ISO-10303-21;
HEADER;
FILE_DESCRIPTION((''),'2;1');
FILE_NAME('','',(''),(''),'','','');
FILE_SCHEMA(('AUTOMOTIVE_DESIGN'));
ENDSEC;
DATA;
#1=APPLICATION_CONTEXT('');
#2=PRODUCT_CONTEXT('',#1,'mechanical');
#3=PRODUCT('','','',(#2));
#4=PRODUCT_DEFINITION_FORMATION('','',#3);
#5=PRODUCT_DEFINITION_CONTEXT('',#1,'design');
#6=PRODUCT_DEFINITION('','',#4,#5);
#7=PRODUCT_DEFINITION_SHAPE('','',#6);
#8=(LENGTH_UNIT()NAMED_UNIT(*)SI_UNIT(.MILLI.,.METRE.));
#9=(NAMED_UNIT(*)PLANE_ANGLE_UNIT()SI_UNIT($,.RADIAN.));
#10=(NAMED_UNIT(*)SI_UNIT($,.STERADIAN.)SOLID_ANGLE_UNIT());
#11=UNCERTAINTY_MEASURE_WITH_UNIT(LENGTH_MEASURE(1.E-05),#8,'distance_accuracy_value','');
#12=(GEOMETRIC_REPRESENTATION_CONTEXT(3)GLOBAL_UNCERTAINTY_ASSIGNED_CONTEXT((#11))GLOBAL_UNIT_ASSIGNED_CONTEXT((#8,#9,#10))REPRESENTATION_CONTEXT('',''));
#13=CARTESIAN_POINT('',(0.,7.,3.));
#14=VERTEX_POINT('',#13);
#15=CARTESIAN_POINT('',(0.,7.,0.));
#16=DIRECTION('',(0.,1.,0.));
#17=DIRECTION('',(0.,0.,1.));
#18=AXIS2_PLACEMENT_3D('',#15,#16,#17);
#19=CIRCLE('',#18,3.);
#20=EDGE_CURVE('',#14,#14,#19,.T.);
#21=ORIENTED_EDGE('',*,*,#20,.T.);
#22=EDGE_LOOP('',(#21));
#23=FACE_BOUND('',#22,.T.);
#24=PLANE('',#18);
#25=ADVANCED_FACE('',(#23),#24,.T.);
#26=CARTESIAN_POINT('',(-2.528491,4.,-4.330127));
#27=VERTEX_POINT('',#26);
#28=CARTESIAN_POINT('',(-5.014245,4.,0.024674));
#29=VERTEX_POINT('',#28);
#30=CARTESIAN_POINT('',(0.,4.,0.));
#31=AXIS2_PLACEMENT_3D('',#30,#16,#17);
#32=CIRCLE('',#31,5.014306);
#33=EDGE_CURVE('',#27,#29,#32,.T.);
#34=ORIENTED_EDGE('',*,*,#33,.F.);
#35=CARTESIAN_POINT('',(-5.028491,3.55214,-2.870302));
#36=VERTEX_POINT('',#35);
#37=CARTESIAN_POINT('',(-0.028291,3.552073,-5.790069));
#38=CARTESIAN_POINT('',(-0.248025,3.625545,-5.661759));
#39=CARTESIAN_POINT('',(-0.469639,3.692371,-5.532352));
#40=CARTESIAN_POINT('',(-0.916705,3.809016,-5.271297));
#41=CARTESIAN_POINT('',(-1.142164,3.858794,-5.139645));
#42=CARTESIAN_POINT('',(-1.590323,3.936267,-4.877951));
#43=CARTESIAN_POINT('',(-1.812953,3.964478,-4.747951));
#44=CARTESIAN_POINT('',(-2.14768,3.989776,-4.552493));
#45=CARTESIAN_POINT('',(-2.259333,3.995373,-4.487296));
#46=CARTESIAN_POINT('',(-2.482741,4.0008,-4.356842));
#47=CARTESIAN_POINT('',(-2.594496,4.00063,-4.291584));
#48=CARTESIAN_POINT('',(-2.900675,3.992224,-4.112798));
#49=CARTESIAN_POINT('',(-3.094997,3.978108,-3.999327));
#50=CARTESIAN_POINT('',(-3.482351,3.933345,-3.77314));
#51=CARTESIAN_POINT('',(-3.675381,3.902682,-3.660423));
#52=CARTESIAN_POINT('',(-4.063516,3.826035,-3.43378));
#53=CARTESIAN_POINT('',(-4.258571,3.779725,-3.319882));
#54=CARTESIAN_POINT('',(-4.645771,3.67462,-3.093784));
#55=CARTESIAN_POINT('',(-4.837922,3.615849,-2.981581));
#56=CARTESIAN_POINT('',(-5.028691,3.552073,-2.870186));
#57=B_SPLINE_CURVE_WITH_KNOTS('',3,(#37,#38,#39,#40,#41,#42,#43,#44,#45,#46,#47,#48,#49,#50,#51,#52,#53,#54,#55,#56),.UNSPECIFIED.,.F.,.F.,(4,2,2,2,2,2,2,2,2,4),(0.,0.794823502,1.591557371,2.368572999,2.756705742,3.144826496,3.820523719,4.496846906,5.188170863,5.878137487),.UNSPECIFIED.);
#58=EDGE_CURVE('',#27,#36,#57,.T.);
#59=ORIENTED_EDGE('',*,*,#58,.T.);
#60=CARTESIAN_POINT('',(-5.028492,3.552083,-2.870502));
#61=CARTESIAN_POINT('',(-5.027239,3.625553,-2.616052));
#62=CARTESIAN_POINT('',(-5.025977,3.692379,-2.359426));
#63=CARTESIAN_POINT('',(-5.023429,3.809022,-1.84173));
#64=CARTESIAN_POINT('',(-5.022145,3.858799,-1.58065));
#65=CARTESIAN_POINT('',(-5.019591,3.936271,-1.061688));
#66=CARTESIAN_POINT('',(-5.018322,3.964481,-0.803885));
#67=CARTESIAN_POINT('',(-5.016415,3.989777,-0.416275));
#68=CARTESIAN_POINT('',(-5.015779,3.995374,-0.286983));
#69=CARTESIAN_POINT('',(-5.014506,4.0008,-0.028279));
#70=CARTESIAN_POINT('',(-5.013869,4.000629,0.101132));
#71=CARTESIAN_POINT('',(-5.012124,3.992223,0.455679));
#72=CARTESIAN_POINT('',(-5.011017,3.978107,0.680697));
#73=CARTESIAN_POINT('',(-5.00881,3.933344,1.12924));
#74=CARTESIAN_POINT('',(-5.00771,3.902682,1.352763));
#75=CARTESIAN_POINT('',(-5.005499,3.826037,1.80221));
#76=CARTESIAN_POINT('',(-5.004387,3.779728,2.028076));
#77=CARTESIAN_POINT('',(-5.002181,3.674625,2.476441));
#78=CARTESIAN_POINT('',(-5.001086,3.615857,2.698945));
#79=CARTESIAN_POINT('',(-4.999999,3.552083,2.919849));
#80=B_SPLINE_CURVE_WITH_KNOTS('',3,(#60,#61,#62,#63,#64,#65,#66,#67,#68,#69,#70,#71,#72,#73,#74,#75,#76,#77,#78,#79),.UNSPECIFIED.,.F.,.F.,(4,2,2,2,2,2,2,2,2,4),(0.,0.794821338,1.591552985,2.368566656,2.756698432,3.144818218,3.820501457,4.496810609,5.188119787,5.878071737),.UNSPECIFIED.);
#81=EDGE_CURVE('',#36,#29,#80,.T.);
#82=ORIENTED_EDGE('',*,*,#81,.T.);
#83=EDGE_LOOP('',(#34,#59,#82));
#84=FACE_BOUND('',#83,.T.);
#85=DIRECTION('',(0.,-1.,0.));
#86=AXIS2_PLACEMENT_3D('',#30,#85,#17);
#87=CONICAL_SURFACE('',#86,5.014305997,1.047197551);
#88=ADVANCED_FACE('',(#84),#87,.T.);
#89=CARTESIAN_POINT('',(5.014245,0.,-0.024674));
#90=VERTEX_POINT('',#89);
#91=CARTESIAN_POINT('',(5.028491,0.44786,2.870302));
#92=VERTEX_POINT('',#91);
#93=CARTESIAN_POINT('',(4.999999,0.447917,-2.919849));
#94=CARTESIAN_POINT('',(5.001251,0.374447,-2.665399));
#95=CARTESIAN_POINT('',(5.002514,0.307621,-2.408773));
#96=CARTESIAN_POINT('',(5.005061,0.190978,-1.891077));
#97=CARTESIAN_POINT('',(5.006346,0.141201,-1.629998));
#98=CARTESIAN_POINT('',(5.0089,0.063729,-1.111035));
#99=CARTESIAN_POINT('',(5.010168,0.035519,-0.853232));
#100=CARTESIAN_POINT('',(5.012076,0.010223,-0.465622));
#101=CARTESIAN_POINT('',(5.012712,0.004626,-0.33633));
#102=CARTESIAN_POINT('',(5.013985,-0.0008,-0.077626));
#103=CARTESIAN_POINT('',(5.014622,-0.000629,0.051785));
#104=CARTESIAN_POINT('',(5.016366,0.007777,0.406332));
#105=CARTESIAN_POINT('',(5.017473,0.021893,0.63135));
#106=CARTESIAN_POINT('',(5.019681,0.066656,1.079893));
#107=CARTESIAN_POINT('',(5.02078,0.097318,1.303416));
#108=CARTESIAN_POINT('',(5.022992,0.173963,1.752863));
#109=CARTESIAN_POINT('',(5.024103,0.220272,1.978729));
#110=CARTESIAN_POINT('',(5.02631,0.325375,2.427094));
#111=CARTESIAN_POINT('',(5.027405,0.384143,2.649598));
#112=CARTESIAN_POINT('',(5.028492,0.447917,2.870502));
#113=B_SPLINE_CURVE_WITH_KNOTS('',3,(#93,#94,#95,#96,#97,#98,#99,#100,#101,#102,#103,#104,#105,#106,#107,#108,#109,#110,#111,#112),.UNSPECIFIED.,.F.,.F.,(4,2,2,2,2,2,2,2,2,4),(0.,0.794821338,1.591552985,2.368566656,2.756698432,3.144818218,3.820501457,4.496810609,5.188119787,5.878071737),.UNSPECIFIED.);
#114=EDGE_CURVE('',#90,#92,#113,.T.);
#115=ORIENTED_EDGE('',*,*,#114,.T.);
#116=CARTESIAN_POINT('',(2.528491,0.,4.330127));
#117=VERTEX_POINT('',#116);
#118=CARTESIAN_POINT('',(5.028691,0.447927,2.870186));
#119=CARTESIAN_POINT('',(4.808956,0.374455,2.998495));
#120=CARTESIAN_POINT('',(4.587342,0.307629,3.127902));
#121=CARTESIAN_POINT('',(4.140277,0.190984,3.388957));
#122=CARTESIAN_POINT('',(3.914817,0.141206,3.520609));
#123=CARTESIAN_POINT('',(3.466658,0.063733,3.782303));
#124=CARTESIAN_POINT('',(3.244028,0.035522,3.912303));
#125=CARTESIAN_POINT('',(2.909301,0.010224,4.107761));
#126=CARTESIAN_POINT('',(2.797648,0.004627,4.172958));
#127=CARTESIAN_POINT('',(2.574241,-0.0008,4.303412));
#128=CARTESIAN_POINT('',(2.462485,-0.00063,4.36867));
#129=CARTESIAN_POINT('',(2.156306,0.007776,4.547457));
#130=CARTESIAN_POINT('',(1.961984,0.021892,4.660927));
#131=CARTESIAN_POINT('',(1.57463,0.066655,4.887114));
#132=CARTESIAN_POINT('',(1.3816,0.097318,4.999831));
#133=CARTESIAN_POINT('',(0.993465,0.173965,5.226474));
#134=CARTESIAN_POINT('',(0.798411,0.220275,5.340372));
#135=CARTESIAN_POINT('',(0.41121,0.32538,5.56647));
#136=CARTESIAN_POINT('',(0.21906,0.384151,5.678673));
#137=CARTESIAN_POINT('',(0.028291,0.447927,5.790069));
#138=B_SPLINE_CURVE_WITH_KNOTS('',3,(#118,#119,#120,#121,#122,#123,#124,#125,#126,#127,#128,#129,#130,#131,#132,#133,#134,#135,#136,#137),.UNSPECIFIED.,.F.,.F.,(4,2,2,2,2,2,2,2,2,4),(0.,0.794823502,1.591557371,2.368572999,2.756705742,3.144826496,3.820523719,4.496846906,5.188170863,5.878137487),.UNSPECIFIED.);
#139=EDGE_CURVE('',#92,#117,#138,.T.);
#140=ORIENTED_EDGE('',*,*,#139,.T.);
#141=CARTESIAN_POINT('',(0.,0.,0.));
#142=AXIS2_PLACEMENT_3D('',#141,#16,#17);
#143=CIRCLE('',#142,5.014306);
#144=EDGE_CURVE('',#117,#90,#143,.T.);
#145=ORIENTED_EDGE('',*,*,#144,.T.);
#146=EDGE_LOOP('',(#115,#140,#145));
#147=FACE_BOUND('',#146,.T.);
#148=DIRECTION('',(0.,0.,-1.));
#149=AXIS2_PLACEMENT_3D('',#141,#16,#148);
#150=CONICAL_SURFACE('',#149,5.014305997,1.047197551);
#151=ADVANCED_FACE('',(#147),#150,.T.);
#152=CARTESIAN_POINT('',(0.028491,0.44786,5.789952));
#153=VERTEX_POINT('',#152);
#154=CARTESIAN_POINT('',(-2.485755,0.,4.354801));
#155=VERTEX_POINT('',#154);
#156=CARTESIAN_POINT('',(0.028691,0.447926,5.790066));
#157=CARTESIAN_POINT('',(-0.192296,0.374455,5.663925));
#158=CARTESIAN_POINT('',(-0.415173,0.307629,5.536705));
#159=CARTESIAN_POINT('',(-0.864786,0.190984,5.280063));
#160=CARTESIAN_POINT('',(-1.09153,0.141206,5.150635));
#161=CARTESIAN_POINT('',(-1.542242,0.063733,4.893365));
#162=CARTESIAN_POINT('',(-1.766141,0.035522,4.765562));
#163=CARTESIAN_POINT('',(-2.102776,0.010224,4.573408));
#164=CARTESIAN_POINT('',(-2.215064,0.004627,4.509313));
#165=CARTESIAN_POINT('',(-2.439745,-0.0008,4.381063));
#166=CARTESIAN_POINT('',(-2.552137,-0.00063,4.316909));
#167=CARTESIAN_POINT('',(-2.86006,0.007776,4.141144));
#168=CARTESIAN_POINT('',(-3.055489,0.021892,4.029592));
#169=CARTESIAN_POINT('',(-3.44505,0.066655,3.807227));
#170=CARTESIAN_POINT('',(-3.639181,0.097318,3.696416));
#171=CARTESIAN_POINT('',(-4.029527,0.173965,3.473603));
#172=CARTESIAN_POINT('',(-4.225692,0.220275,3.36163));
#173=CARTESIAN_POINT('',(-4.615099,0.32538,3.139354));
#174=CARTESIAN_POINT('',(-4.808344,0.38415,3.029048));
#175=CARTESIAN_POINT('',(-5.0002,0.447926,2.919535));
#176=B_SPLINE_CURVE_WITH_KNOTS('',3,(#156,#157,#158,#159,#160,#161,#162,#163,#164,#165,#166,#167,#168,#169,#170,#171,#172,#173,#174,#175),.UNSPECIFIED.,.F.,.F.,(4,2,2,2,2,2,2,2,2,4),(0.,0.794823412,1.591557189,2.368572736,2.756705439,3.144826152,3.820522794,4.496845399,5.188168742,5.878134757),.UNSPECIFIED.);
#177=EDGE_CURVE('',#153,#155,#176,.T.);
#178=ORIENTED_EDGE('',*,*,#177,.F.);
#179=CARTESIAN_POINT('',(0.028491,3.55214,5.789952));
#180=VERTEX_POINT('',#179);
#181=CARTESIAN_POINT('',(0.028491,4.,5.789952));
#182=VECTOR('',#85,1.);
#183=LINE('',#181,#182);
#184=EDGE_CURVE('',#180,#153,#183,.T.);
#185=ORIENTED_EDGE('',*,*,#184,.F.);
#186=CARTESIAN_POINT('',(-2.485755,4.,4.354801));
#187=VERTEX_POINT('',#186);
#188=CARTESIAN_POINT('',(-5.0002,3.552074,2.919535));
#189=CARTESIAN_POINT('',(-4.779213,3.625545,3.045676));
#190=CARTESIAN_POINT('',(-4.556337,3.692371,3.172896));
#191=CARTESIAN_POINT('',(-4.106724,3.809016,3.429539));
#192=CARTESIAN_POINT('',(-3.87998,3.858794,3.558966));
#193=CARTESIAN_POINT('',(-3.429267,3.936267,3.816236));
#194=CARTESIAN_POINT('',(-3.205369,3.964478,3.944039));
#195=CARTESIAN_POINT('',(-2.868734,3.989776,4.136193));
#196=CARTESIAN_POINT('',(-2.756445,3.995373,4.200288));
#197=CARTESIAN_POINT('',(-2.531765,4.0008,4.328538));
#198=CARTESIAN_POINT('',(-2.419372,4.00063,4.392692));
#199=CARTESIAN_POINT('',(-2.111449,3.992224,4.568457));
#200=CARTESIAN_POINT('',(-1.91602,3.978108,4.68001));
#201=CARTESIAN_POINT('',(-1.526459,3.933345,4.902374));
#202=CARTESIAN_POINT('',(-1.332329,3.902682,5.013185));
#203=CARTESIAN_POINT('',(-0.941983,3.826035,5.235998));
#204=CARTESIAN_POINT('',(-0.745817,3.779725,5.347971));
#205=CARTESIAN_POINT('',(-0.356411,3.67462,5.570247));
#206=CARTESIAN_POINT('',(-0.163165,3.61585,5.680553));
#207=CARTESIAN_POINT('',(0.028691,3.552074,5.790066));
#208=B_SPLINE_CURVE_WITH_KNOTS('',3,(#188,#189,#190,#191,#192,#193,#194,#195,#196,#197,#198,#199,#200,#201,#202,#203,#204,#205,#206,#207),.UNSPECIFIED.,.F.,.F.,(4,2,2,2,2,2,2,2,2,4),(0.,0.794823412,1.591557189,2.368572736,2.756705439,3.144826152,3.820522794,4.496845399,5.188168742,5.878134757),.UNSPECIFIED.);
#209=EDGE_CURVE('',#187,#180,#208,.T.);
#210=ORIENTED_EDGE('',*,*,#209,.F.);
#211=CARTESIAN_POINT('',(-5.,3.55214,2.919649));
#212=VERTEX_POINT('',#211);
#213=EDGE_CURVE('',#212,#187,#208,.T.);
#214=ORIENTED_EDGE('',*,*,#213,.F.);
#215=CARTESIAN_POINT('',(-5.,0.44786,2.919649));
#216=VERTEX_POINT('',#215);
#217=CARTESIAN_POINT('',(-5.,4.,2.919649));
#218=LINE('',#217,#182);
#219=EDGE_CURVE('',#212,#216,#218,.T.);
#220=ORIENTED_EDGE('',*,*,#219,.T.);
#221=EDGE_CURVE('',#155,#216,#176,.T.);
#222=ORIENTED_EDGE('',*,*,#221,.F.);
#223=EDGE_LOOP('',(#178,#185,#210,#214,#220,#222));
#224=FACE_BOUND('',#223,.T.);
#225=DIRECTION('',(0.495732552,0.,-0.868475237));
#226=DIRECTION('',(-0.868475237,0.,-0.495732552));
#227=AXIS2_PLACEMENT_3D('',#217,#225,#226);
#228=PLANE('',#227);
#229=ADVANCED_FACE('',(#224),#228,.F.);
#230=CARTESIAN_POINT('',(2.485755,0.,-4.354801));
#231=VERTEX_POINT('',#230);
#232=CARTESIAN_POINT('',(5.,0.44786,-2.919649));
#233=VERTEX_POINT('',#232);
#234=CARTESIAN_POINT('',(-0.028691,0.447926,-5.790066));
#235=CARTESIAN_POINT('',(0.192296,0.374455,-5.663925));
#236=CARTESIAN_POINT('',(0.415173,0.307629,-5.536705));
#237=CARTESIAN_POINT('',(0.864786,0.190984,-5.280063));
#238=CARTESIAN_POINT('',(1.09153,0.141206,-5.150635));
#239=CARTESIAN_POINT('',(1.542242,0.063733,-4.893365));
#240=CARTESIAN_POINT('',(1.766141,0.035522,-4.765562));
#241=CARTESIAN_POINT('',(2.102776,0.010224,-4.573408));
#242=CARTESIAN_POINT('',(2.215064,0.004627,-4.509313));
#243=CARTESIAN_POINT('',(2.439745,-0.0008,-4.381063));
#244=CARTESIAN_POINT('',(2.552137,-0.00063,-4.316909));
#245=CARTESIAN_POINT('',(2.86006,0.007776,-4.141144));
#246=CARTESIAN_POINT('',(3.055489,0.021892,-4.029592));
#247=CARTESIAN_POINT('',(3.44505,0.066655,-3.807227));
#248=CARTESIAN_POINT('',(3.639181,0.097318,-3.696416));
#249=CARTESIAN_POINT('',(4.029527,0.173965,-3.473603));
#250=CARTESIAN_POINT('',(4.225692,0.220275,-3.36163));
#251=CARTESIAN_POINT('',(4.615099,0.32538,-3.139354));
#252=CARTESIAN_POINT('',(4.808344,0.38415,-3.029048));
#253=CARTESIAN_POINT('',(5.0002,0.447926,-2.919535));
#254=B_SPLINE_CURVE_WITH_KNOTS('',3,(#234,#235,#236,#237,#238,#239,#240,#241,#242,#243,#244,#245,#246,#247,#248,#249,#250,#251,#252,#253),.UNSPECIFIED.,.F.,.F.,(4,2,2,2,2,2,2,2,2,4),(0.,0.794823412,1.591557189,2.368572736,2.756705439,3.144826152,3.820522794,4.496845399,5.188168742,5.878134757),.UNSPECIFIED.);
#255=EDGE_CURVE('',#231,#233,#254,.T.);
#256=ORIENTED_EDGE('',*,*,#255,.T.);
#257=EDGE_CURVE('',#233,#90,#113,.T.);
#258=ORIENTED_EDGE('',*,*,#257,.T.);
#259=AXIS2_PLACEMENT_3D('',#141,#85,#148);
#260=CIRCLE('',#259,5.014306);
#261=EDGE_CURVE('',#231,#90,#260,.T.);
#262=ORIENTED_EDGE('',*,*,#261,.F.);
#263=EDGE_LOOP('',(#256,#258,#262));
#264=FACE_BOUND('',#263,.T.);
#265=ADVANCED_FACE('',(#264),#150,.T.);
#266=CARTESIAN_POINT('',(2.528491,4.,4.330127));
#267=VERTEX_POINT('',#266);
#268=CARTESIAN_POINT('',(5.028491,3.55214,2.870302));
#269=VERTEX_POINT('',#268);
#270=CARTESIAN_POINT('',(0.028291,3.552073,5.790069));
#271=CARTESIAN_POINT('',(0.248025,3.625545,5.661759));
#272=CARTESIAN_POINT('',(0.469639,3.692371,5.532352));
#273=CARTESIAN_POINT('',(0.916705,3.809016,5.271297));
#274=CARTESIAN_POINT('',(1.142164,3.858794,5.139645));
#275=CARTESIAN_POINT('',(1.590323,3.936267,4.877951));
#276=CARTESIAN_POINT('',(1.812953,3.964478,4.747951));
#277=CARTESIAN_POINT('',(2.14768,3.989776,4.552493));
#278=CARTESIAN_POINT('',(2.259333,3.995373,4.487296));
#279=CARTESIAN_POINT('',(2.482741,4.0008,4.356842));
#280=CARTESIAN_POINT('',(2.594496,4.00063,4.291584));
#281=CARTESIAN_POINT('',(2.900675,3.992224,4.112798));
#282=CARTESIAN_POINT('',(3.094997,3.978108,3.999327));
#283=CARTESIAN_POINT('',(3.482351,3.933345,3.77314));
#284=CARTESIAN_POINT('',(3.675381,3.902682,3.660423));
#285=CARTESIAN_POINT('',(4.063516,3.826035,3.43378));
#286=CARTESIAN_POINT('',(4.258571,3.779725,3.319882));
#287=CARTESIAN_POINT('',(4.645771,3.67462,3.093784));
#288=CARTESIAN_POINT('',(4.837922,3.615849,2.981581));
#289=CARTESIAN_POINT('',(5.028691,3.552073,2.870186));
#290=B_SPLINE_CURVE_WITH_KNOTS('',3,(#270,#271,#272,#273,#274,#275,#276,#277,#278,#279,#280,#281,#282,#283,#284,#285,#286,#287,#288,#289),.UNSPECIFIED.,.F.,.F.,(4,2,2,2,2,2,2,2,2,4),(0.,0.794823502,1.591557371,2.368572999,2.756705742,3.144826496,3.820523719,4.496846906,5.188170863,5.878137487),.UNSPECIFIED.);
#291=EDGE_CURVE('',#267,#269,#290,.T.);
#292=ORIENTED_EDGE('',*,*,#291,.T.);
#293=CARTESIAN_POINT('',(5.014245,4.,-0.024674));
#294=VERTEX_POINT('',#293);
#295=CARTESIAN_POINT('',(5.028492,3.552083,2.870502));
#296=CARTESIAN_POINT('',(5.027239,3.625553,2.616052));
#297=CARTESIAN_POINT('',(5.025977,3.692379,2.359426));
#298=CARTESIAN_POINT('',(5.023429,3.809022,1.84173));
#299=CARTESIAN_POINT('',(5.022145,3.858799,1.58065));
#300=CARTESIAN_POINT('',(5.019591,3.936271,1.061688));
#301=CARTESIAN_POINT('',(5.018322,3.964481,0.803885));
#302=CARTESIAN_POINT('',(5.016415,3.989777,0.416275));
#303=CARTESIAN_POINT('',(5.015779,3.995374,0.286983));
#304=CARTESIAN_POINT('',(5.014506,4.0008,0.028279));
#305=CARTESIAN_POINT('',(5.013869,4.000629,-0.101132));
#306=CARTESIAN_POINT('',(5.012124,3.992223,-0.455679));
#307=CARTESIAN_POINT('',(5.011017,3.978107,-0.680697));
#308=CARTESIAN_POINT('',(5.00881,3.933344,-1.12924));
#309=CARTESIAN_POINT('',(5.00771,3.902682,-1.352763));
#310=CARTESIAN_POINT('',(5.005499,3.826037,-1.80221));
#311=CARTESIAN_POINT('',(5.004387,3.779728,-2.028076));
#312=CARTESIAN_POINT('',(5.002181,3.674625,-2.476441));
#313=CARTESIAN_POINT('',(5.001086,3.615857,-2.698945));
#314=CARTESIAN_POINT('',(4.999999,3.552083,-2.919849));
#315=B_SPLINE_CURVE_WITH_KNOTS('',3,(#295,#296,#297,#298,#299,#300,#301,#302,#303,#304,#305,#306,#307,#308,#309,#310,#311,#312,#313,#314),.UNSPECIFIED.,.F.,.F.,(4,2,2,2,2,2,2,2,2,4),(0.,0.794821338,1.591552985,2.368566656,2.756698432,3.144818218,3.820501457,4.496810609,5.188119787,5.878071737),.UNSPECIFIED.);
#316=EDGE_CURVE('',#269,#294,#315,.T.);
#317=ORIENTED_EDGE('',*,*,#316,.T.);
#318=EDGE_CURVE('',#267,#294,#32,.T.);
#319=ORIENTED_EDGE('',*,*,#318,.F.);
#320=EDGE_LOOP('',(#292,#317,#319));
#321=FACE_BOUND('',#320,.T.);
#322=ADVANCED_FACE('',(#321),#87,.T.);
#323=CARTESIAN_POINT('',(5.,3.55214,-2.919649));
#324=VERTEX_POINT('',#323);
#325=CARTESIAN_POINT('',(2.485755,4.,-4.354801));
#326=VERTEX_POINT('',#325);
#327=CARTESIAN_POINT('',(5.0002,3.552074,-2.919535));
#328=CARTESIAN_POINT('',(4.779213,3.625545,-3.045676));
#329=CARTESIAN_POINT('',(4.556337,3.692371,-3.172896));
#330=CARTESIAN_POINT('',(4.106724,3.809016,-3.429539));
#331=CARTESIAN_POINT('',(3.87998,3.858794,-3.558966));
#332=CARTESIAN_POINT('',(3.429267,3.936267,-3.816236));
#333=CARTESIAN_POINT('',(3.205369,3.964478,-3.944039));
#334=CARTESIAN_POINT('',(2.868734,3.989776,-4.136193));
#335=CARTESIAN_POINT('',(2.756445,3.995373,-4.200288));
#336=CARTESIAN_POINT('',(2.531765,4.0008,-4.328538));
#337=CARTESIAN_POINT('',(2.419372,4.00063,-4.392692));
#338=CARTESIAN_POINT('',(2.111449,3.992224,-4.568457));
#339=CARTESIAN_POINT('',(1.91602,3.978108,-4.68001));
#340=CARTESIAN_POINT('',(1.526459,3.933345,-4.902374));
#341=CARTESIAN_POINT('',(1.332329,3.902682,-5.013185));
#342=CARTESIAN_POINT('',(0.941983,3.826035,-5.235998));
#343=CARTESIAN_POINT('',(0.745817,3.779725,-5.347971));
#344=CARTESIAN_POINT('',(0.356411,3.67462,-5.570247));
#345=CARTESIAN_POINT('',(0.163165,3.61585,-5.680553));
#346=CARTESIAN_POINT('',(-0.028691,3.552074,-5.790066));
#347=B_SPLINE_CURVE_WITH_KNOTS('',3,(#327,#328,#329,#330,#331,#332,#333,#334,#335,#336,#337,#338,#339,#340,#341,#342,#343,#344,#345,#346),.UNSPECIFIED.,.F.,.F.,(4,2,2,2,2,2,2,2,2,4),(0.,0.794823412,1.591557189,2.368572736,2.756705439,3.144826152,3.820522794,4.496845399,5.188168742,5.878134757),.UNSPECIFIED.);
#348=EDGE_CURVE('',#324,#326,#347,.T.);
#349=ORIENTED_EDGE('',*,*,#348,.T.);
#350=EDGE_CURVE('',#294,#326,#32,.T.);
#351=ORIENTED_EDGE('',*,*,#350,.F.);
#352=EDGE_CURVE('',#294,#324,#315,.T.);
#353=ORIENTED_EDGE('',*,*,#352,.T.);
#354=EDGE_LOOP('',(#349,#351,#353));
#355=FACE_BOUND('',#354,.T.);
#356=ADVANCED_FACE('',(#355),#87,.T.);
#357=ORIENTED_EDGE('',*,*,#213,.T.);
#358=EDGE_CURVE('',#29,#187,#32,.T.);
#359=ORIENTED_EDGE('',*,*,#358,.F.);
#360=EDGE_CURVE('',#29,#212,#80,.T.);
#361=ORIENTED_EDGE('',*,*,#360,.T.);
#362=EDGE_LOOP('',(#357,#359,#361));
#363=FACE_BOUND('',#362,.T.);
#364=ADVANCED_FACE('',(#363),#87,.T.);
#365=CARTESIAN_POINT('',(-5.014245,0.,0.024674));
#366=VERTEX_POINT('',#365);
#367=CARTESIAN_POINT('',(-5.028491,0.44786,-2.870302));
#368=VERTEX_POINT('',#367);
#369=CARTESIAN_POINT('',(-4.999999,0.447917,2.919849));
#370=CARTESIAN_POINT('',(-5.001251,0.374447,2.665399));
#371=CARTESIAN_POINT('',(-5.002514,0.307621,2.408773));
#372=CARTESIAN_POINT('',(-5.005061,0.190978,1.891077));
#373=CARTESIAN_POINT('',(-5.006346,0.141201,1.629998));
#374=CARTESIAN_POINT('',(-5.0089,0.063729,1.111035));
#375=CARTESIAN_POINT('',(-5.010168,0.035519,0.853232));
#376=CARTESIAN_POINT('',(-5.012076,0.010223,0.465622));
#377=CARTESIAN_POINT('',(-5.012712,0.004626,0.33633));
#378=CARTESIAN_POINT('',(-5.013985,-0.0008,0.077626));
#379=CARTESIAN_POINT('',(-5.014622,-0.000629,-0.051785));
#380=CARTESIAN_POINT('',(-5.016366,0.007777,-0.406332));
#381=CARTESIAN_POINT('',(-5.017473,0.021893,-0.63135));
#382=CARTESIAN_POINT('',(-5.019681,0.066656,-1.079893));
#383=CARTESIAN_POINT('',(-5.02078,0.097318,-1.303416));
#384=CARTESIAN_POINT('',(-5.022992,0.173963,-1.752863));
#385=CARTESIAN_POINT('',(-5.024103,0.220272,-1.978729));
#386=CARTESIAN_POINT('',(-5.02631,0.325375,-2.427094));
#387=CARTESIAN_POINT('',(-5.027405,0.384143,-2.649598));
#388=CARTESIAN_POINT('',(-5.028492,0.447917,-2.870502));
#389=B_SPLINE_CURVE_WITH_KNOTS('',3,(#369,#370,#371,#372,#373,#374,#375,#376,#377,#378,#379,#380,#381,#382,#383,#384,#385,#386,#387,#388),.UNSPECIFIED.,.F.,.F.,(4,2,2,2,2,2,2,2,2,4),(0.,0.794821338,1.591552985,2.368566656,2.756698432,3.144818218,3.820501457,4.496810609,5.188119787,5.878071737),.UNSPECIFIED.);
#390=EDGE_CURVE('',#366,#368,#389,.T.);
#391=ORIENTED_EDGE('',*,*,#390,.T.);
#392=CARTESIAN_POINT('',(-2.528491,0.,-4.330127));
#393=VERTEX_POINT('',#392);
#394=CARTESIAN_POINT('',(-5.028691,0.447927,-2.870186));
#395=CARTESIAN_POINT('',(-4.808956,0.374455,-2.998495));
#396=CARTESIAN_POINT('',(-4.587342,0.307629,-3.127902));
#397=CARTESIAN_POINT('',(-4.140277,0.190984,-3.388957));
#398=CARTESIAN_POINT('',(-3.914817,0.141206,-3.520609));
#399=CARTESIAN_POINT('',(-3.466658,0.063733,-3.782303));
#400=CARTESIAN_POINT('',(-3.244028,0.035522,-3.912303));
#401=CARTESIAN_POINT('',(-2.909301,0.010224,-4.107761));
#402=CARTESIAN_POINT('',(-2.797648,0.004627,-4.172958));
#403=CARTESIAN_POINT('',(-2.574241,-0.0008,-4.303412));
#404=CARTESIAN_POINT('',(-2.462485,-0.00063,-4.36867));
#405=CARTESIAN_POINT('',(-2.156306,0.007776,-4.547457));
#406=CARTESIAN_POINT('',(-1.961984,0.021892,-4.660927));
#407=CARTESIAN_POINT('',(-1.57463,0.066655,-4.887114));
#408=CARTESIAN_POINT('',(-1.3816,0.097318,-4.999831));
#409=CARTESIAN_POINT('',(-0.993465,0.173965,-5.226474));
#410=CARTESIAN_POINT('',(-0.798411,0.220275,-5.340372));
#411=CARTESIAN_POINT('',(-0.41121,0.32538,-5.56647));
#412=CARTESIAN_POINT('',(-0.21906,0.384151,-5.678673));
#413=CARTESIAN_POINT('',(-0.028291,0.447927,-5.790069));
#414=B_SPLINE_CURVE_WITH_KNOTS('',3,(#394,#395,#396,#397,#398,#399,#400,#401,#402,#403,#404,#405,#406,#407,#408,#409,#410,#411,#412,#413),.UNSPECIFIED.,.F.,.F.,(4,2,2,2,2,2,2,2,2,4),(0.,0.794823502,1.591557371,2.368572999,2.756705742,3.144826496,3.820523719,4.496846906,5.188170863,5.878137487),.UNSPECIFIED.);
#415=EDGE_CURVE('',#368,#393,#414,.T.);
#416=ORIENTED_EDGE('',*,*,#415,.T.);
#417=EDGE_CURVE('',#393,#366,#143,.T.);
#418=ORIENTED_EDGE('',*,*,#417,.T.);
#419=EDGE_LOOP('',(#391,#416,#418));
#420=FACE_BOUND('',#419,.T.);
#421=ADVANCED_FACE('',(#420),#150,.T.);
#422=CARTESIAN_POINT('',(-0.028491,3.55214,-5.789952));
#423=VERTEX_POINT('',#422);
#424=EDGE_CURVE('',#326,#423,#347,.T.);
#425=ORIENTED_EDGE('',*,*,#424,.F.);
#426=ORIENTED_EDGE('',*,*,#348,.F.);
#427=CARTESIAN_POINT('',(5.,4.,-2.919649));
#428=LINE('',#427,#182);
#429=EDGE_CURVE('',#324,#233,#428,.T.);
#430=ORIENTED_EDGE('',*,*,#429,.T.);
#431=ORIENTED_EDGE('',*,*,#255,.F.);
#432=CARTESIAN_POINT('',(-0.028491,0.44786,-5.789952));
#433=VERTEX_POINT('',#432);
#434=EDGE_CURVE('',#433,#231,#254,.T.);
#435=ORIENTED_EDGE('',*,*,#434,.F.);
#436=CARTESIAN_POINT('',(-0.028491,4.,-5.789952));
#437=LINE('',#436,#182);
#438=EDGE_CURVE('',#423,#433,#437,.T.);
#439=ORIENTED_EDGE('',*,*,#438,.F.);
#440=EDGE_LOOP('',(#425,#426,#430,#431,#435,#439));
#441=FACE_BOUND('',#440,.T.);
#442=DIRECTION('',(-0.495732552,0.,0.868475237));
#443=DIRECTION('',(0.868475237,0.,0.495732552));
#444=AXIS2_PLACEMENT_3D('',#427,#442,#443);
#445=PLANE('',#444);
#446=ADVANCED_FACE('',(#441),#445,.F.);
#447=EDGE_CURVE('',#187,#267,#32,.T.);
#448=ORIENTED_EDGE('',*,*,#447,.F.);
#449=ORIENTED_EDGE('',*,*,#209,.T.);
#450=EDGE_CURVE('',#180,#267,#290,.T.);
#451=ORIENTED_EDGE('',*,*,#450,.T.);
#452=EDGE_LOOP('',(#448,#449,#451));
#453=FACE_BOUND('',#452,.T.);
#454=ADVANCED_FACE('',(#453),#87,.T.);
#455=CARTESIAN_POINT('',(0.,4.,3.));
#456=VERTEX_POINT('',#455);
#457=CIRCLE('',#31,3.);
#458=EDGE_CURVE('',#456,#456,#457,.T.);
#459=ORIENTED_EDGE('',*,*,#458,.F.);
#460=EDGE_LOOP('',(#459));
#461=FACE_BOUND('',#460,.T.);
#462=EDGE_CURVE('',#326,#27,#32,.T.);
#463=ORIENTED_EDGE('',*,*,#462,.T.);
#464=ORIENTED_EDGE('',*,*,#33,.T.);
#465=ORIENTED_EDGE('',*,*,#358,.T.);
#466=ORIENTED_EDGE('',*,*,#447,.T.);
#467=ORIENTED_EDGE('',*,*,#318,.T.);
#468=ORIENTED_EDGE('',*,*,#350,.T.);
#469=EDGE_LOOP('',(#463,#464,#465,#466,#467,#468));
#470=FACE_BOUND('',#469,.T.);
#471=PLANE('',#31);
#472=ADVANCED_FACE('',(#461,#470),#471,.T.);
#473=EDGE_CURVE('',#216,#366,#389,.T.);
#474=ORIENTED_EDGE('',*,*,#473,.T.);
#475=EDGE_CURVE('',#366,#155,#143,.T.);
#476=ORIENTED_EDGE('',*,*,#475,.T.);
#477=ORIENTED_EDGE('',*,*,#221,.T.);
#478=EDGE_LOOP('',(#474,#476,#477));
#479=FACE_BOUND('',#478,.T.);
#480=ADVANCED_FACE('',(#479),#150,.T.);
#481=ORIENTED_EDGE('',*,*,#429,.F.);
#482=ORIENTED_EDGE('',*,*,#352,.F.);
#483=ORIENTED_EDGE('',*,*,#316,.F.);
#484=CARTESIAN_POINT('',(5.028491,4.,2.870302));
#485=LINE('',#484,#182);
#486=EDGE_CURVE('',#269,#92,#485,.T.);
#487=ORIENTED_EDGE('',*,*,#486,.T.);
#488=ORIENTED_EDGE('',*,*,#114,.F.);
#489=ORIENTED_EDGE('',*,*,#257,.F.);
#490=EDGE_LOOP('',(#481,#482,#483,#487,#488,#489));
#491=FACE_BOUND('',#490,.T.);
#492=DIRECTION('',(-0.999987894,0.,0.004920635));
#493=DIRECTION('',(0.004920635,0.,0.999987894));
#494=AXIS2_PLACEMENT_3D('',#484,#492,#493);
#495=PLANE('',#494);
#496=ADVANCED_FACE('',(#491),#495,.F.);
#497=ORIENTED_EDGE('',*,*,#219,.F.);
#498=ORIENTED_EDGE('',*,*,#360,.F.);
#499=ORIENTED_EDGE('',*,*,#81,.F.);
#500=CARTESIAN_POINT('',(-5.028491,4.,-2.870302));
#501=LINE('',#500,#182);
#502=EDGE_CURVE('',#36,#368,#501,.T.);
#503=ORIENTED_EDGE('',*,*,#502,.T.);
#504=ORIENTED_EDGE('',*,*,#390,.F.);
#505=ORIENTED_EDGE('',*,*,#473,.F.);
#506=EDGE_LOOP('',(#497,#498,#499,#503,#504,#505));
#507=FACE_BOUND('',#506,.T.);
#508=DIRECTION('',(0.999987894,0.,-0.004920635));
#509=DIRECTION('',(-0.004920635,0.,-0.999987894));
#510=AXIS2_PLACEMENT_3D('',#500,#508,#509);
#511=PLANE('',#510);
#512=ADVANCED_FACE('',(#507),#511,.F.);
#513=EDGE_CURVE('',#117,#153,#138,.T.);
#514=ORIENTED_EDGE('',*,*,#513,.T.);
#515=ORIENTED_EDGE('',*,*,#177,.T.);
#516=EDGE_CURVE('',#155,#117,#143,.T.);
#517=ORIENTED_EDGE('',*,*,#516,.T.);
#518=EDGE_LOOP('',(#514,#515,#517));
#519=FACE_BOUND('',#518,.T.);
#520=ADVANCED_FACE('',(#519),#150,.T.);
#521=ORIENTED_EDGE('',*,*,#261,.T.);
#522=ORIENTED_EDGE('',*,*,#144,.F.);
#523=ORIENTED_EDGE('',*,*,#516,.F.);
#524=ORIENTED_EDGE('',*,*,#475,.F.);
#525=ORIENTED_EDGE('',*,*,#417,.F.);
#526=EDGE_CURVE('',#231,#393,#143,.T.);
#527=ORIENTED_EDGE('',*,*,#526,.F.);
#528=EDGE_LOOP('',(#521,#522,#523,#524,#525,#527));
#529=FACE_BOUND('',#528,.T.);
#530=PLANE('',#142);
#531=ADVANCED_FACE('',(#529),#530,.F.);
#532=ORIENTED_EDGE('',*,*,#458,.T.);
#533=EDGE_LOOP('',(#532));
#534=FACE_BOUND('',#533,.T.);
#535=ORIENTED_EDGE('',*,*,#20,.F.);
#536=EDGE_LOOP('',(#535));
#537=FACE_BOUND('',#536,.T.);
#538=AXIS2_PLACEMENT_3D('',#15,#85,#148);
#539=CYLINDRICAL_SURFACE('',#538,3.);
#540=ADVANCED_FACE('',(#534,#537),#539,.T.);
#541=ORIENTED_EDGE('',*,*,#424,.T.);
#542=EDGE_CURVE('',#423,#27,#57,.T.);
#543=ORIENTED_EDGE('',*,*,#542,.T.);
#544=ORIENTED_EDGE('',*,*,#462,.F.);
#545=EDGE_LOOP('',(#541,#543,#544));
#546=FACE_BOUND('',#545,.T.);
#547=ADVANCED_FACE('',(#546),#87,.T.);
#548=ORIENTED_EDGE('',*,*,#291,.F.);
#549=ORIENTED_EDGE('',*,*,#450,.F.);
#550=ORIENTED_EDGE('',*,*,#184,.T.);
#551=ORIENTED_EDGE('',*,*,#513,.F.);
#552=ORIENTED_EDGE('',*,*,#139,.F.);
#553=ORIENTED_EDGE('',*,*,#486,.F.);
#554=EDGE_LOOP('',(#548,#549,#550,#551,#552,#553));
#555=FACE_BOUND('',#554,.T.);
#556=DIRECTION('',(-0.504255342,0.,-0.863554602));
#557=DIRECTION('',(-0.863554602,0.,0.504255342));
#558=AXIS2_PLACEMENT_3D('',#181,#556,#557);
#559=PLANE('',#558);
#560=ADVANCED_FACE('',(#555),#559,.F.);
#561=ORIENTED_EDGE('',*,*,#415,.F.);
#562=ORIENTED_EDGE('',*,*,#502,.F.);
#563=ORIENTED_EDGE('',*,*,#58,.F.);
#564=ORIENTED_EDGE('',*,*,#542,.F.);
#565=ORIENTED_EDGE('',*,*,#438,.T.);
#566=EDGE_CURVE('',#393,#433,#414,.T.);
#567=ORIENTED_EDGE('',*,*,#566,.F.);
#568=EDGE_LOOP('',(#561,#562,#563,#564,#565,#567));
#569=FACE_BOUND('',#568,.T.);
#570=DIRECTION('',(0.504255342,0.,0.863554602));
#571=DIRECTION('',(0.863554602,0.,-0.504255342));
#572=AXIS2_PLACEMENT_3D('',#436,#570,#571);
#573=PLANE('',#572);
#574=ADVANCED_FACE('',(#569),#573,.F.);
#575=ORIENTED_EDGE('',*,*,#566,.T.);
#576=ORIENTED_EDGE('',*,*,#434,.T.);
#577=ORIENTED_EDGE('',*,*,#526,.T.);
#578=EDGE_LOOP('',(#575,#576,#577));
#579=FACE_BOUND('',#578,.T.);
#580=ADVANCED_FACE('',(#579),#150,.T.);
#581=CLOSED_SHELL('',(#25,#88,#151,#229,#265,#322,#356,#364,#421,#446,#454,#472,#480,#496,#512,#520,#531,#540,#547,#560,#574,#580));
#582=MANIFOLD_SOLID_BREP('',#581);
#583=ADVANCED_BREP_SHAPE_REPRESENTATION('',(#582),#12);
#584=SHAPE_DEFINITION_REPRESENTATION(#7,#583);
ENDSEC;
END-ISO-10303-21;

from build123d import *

# Parameters (mm, degrees)
BOSS_EXTRUDE1_DEPTH = 4
SKETCH2_OUTSIDE_W   = 29.082
SKETCH2_OUTSIDE_H   = 30.606
SKETCH2_OUTSIDE_R   = 5.014305997
CUT_EXTRUDE1_DEPTH  = 4
CUT_EXTRUDE1_DRAFT  = -60
SKETCH3_OUTSIDE_W   = 29.082
SKETCH3_OUTSIDE_H   = 30.606
SKETCH3_OUTSIDE_R   = 5.014305997
CUT_EXTRUDE2_DEPTH  = 4
CUT_EXTRUDE2_DRAFT  = -60
SKETCH4_R           = 3
BOSS_EXTRUDE3_DEPTH = 3


with BuildPart() as part:
    # Sketch1 → Boss-Extrude1 (new body)
    with BuildSketch(Plane(origin=(0, 0, 0), x_dir=(1, 0, 0), z_dir=(0, 1, 0))):
        Polygon((5, 2.919649438), (-0.028490583, 5.789951738), (-5.028490583, 2.8703023), (-5, -2.919649438), (0.028490583, -5.789951738), (5.028490583, -2.8703023), align=None)
    extrude(amount=BOSS_EXTRUDE1_DEPTH)


with BuildPart() as cut_extrude1_tool:
    # Sketch2 outside → Cut-Extrude1 (with draft: the straight prism first)
    with BuildSketch(Plane(origin=(0, 4, 0), x_dir=(1, 0, 0), z_dir=(0, 1, 0))):
        Rectangle(SKETCH2_OUTSIDE_W, SKETCH2_OUTSIDE_H)
        Circle(SKETCH2_OUTSIDE_R, mode=Mode.SUBTRACT)
    extrude(amount=-CUT_EXTRUDE1_DEPTH)
    # Cut-Extrude1: the draft: its side faces are tilted about the plane it starts from
    cut_extrude1_sides = [cut_extrude1_tool.faces().sort_by_distance(p)[0] for p in [
        (0, 2, 15.303),
        (14.541, 2, 0),
        (0, 2, -15.303),
        (-14.541, 2, 0),
        (-5.014305997, 2, 0),
    ]]
    draft(cut_extrude1_sides, Plane(origin=(0, 4, 0), x_dir=(1, 0, 0), z_dir=(0, 1, 0)), CUT_EXTRUDE1_DRAFT)


with BuildPart() as part_1:
    add(part.part)

    # Cut-Extrude1: cut by cut_extrude1_tool
    add(cut_extrude1_tool.part, mode=Mode.SUBTRACT)


with BuildPart() as cut_extrude2_tool:
    # Sketch3 outside → Cut-Extrude2 (with draft: the straight prism first)
    with BuildSketch(Plane.XZ):
        Rectangle(SKETCH3_OUTSIDE_W, SKETCH3_OUTSIDE_H)
        Circle(SKETCH3_OUTSIDE_R, mode=Mode.SUBTRACT)
    extrude(amount=-CUT_EXTRUDE2_DEPTH)
    # Cut-Extrude2: the draft: its side faces are tilted about the plane it starts from
    cut_extrude2_sides = [cut_extrude2_tool.faces().sort_by_distance(p)[0] for p in [
        (0, 2, -15.303),
        (14.541, 2, 0),
        (0, 2, 15.303),
        (-14.541, 2, 0),
        (-5.014305997, 2, 0),
    ]]
    draft(cut_extrude2_sides, Plane.XZ, CUT_EXTRUDE2_DRAFT)


with BuildPart() as part_2:
    add(part_1.part)

    # Cut-Extrude2: cut by cut_extrude2_tool
    add(cut_extrude2_tool.part, mode=Mode.SUBTRACT)

    # Sketch4 → Boss-Extrude3 (add)
    with BuildSketch(Plane(origin=(0, 4, 0), x_dir=(1, 0, 0), z_dir=(0, 1, 0))):
        with Locations(Location((0, 0, 0), (0, 0, 270))):
            Circle(SKETCH4_R)
    extrude(amount=BOSS_EXTRUDE3_DEPTH)


solid = part_2.part
